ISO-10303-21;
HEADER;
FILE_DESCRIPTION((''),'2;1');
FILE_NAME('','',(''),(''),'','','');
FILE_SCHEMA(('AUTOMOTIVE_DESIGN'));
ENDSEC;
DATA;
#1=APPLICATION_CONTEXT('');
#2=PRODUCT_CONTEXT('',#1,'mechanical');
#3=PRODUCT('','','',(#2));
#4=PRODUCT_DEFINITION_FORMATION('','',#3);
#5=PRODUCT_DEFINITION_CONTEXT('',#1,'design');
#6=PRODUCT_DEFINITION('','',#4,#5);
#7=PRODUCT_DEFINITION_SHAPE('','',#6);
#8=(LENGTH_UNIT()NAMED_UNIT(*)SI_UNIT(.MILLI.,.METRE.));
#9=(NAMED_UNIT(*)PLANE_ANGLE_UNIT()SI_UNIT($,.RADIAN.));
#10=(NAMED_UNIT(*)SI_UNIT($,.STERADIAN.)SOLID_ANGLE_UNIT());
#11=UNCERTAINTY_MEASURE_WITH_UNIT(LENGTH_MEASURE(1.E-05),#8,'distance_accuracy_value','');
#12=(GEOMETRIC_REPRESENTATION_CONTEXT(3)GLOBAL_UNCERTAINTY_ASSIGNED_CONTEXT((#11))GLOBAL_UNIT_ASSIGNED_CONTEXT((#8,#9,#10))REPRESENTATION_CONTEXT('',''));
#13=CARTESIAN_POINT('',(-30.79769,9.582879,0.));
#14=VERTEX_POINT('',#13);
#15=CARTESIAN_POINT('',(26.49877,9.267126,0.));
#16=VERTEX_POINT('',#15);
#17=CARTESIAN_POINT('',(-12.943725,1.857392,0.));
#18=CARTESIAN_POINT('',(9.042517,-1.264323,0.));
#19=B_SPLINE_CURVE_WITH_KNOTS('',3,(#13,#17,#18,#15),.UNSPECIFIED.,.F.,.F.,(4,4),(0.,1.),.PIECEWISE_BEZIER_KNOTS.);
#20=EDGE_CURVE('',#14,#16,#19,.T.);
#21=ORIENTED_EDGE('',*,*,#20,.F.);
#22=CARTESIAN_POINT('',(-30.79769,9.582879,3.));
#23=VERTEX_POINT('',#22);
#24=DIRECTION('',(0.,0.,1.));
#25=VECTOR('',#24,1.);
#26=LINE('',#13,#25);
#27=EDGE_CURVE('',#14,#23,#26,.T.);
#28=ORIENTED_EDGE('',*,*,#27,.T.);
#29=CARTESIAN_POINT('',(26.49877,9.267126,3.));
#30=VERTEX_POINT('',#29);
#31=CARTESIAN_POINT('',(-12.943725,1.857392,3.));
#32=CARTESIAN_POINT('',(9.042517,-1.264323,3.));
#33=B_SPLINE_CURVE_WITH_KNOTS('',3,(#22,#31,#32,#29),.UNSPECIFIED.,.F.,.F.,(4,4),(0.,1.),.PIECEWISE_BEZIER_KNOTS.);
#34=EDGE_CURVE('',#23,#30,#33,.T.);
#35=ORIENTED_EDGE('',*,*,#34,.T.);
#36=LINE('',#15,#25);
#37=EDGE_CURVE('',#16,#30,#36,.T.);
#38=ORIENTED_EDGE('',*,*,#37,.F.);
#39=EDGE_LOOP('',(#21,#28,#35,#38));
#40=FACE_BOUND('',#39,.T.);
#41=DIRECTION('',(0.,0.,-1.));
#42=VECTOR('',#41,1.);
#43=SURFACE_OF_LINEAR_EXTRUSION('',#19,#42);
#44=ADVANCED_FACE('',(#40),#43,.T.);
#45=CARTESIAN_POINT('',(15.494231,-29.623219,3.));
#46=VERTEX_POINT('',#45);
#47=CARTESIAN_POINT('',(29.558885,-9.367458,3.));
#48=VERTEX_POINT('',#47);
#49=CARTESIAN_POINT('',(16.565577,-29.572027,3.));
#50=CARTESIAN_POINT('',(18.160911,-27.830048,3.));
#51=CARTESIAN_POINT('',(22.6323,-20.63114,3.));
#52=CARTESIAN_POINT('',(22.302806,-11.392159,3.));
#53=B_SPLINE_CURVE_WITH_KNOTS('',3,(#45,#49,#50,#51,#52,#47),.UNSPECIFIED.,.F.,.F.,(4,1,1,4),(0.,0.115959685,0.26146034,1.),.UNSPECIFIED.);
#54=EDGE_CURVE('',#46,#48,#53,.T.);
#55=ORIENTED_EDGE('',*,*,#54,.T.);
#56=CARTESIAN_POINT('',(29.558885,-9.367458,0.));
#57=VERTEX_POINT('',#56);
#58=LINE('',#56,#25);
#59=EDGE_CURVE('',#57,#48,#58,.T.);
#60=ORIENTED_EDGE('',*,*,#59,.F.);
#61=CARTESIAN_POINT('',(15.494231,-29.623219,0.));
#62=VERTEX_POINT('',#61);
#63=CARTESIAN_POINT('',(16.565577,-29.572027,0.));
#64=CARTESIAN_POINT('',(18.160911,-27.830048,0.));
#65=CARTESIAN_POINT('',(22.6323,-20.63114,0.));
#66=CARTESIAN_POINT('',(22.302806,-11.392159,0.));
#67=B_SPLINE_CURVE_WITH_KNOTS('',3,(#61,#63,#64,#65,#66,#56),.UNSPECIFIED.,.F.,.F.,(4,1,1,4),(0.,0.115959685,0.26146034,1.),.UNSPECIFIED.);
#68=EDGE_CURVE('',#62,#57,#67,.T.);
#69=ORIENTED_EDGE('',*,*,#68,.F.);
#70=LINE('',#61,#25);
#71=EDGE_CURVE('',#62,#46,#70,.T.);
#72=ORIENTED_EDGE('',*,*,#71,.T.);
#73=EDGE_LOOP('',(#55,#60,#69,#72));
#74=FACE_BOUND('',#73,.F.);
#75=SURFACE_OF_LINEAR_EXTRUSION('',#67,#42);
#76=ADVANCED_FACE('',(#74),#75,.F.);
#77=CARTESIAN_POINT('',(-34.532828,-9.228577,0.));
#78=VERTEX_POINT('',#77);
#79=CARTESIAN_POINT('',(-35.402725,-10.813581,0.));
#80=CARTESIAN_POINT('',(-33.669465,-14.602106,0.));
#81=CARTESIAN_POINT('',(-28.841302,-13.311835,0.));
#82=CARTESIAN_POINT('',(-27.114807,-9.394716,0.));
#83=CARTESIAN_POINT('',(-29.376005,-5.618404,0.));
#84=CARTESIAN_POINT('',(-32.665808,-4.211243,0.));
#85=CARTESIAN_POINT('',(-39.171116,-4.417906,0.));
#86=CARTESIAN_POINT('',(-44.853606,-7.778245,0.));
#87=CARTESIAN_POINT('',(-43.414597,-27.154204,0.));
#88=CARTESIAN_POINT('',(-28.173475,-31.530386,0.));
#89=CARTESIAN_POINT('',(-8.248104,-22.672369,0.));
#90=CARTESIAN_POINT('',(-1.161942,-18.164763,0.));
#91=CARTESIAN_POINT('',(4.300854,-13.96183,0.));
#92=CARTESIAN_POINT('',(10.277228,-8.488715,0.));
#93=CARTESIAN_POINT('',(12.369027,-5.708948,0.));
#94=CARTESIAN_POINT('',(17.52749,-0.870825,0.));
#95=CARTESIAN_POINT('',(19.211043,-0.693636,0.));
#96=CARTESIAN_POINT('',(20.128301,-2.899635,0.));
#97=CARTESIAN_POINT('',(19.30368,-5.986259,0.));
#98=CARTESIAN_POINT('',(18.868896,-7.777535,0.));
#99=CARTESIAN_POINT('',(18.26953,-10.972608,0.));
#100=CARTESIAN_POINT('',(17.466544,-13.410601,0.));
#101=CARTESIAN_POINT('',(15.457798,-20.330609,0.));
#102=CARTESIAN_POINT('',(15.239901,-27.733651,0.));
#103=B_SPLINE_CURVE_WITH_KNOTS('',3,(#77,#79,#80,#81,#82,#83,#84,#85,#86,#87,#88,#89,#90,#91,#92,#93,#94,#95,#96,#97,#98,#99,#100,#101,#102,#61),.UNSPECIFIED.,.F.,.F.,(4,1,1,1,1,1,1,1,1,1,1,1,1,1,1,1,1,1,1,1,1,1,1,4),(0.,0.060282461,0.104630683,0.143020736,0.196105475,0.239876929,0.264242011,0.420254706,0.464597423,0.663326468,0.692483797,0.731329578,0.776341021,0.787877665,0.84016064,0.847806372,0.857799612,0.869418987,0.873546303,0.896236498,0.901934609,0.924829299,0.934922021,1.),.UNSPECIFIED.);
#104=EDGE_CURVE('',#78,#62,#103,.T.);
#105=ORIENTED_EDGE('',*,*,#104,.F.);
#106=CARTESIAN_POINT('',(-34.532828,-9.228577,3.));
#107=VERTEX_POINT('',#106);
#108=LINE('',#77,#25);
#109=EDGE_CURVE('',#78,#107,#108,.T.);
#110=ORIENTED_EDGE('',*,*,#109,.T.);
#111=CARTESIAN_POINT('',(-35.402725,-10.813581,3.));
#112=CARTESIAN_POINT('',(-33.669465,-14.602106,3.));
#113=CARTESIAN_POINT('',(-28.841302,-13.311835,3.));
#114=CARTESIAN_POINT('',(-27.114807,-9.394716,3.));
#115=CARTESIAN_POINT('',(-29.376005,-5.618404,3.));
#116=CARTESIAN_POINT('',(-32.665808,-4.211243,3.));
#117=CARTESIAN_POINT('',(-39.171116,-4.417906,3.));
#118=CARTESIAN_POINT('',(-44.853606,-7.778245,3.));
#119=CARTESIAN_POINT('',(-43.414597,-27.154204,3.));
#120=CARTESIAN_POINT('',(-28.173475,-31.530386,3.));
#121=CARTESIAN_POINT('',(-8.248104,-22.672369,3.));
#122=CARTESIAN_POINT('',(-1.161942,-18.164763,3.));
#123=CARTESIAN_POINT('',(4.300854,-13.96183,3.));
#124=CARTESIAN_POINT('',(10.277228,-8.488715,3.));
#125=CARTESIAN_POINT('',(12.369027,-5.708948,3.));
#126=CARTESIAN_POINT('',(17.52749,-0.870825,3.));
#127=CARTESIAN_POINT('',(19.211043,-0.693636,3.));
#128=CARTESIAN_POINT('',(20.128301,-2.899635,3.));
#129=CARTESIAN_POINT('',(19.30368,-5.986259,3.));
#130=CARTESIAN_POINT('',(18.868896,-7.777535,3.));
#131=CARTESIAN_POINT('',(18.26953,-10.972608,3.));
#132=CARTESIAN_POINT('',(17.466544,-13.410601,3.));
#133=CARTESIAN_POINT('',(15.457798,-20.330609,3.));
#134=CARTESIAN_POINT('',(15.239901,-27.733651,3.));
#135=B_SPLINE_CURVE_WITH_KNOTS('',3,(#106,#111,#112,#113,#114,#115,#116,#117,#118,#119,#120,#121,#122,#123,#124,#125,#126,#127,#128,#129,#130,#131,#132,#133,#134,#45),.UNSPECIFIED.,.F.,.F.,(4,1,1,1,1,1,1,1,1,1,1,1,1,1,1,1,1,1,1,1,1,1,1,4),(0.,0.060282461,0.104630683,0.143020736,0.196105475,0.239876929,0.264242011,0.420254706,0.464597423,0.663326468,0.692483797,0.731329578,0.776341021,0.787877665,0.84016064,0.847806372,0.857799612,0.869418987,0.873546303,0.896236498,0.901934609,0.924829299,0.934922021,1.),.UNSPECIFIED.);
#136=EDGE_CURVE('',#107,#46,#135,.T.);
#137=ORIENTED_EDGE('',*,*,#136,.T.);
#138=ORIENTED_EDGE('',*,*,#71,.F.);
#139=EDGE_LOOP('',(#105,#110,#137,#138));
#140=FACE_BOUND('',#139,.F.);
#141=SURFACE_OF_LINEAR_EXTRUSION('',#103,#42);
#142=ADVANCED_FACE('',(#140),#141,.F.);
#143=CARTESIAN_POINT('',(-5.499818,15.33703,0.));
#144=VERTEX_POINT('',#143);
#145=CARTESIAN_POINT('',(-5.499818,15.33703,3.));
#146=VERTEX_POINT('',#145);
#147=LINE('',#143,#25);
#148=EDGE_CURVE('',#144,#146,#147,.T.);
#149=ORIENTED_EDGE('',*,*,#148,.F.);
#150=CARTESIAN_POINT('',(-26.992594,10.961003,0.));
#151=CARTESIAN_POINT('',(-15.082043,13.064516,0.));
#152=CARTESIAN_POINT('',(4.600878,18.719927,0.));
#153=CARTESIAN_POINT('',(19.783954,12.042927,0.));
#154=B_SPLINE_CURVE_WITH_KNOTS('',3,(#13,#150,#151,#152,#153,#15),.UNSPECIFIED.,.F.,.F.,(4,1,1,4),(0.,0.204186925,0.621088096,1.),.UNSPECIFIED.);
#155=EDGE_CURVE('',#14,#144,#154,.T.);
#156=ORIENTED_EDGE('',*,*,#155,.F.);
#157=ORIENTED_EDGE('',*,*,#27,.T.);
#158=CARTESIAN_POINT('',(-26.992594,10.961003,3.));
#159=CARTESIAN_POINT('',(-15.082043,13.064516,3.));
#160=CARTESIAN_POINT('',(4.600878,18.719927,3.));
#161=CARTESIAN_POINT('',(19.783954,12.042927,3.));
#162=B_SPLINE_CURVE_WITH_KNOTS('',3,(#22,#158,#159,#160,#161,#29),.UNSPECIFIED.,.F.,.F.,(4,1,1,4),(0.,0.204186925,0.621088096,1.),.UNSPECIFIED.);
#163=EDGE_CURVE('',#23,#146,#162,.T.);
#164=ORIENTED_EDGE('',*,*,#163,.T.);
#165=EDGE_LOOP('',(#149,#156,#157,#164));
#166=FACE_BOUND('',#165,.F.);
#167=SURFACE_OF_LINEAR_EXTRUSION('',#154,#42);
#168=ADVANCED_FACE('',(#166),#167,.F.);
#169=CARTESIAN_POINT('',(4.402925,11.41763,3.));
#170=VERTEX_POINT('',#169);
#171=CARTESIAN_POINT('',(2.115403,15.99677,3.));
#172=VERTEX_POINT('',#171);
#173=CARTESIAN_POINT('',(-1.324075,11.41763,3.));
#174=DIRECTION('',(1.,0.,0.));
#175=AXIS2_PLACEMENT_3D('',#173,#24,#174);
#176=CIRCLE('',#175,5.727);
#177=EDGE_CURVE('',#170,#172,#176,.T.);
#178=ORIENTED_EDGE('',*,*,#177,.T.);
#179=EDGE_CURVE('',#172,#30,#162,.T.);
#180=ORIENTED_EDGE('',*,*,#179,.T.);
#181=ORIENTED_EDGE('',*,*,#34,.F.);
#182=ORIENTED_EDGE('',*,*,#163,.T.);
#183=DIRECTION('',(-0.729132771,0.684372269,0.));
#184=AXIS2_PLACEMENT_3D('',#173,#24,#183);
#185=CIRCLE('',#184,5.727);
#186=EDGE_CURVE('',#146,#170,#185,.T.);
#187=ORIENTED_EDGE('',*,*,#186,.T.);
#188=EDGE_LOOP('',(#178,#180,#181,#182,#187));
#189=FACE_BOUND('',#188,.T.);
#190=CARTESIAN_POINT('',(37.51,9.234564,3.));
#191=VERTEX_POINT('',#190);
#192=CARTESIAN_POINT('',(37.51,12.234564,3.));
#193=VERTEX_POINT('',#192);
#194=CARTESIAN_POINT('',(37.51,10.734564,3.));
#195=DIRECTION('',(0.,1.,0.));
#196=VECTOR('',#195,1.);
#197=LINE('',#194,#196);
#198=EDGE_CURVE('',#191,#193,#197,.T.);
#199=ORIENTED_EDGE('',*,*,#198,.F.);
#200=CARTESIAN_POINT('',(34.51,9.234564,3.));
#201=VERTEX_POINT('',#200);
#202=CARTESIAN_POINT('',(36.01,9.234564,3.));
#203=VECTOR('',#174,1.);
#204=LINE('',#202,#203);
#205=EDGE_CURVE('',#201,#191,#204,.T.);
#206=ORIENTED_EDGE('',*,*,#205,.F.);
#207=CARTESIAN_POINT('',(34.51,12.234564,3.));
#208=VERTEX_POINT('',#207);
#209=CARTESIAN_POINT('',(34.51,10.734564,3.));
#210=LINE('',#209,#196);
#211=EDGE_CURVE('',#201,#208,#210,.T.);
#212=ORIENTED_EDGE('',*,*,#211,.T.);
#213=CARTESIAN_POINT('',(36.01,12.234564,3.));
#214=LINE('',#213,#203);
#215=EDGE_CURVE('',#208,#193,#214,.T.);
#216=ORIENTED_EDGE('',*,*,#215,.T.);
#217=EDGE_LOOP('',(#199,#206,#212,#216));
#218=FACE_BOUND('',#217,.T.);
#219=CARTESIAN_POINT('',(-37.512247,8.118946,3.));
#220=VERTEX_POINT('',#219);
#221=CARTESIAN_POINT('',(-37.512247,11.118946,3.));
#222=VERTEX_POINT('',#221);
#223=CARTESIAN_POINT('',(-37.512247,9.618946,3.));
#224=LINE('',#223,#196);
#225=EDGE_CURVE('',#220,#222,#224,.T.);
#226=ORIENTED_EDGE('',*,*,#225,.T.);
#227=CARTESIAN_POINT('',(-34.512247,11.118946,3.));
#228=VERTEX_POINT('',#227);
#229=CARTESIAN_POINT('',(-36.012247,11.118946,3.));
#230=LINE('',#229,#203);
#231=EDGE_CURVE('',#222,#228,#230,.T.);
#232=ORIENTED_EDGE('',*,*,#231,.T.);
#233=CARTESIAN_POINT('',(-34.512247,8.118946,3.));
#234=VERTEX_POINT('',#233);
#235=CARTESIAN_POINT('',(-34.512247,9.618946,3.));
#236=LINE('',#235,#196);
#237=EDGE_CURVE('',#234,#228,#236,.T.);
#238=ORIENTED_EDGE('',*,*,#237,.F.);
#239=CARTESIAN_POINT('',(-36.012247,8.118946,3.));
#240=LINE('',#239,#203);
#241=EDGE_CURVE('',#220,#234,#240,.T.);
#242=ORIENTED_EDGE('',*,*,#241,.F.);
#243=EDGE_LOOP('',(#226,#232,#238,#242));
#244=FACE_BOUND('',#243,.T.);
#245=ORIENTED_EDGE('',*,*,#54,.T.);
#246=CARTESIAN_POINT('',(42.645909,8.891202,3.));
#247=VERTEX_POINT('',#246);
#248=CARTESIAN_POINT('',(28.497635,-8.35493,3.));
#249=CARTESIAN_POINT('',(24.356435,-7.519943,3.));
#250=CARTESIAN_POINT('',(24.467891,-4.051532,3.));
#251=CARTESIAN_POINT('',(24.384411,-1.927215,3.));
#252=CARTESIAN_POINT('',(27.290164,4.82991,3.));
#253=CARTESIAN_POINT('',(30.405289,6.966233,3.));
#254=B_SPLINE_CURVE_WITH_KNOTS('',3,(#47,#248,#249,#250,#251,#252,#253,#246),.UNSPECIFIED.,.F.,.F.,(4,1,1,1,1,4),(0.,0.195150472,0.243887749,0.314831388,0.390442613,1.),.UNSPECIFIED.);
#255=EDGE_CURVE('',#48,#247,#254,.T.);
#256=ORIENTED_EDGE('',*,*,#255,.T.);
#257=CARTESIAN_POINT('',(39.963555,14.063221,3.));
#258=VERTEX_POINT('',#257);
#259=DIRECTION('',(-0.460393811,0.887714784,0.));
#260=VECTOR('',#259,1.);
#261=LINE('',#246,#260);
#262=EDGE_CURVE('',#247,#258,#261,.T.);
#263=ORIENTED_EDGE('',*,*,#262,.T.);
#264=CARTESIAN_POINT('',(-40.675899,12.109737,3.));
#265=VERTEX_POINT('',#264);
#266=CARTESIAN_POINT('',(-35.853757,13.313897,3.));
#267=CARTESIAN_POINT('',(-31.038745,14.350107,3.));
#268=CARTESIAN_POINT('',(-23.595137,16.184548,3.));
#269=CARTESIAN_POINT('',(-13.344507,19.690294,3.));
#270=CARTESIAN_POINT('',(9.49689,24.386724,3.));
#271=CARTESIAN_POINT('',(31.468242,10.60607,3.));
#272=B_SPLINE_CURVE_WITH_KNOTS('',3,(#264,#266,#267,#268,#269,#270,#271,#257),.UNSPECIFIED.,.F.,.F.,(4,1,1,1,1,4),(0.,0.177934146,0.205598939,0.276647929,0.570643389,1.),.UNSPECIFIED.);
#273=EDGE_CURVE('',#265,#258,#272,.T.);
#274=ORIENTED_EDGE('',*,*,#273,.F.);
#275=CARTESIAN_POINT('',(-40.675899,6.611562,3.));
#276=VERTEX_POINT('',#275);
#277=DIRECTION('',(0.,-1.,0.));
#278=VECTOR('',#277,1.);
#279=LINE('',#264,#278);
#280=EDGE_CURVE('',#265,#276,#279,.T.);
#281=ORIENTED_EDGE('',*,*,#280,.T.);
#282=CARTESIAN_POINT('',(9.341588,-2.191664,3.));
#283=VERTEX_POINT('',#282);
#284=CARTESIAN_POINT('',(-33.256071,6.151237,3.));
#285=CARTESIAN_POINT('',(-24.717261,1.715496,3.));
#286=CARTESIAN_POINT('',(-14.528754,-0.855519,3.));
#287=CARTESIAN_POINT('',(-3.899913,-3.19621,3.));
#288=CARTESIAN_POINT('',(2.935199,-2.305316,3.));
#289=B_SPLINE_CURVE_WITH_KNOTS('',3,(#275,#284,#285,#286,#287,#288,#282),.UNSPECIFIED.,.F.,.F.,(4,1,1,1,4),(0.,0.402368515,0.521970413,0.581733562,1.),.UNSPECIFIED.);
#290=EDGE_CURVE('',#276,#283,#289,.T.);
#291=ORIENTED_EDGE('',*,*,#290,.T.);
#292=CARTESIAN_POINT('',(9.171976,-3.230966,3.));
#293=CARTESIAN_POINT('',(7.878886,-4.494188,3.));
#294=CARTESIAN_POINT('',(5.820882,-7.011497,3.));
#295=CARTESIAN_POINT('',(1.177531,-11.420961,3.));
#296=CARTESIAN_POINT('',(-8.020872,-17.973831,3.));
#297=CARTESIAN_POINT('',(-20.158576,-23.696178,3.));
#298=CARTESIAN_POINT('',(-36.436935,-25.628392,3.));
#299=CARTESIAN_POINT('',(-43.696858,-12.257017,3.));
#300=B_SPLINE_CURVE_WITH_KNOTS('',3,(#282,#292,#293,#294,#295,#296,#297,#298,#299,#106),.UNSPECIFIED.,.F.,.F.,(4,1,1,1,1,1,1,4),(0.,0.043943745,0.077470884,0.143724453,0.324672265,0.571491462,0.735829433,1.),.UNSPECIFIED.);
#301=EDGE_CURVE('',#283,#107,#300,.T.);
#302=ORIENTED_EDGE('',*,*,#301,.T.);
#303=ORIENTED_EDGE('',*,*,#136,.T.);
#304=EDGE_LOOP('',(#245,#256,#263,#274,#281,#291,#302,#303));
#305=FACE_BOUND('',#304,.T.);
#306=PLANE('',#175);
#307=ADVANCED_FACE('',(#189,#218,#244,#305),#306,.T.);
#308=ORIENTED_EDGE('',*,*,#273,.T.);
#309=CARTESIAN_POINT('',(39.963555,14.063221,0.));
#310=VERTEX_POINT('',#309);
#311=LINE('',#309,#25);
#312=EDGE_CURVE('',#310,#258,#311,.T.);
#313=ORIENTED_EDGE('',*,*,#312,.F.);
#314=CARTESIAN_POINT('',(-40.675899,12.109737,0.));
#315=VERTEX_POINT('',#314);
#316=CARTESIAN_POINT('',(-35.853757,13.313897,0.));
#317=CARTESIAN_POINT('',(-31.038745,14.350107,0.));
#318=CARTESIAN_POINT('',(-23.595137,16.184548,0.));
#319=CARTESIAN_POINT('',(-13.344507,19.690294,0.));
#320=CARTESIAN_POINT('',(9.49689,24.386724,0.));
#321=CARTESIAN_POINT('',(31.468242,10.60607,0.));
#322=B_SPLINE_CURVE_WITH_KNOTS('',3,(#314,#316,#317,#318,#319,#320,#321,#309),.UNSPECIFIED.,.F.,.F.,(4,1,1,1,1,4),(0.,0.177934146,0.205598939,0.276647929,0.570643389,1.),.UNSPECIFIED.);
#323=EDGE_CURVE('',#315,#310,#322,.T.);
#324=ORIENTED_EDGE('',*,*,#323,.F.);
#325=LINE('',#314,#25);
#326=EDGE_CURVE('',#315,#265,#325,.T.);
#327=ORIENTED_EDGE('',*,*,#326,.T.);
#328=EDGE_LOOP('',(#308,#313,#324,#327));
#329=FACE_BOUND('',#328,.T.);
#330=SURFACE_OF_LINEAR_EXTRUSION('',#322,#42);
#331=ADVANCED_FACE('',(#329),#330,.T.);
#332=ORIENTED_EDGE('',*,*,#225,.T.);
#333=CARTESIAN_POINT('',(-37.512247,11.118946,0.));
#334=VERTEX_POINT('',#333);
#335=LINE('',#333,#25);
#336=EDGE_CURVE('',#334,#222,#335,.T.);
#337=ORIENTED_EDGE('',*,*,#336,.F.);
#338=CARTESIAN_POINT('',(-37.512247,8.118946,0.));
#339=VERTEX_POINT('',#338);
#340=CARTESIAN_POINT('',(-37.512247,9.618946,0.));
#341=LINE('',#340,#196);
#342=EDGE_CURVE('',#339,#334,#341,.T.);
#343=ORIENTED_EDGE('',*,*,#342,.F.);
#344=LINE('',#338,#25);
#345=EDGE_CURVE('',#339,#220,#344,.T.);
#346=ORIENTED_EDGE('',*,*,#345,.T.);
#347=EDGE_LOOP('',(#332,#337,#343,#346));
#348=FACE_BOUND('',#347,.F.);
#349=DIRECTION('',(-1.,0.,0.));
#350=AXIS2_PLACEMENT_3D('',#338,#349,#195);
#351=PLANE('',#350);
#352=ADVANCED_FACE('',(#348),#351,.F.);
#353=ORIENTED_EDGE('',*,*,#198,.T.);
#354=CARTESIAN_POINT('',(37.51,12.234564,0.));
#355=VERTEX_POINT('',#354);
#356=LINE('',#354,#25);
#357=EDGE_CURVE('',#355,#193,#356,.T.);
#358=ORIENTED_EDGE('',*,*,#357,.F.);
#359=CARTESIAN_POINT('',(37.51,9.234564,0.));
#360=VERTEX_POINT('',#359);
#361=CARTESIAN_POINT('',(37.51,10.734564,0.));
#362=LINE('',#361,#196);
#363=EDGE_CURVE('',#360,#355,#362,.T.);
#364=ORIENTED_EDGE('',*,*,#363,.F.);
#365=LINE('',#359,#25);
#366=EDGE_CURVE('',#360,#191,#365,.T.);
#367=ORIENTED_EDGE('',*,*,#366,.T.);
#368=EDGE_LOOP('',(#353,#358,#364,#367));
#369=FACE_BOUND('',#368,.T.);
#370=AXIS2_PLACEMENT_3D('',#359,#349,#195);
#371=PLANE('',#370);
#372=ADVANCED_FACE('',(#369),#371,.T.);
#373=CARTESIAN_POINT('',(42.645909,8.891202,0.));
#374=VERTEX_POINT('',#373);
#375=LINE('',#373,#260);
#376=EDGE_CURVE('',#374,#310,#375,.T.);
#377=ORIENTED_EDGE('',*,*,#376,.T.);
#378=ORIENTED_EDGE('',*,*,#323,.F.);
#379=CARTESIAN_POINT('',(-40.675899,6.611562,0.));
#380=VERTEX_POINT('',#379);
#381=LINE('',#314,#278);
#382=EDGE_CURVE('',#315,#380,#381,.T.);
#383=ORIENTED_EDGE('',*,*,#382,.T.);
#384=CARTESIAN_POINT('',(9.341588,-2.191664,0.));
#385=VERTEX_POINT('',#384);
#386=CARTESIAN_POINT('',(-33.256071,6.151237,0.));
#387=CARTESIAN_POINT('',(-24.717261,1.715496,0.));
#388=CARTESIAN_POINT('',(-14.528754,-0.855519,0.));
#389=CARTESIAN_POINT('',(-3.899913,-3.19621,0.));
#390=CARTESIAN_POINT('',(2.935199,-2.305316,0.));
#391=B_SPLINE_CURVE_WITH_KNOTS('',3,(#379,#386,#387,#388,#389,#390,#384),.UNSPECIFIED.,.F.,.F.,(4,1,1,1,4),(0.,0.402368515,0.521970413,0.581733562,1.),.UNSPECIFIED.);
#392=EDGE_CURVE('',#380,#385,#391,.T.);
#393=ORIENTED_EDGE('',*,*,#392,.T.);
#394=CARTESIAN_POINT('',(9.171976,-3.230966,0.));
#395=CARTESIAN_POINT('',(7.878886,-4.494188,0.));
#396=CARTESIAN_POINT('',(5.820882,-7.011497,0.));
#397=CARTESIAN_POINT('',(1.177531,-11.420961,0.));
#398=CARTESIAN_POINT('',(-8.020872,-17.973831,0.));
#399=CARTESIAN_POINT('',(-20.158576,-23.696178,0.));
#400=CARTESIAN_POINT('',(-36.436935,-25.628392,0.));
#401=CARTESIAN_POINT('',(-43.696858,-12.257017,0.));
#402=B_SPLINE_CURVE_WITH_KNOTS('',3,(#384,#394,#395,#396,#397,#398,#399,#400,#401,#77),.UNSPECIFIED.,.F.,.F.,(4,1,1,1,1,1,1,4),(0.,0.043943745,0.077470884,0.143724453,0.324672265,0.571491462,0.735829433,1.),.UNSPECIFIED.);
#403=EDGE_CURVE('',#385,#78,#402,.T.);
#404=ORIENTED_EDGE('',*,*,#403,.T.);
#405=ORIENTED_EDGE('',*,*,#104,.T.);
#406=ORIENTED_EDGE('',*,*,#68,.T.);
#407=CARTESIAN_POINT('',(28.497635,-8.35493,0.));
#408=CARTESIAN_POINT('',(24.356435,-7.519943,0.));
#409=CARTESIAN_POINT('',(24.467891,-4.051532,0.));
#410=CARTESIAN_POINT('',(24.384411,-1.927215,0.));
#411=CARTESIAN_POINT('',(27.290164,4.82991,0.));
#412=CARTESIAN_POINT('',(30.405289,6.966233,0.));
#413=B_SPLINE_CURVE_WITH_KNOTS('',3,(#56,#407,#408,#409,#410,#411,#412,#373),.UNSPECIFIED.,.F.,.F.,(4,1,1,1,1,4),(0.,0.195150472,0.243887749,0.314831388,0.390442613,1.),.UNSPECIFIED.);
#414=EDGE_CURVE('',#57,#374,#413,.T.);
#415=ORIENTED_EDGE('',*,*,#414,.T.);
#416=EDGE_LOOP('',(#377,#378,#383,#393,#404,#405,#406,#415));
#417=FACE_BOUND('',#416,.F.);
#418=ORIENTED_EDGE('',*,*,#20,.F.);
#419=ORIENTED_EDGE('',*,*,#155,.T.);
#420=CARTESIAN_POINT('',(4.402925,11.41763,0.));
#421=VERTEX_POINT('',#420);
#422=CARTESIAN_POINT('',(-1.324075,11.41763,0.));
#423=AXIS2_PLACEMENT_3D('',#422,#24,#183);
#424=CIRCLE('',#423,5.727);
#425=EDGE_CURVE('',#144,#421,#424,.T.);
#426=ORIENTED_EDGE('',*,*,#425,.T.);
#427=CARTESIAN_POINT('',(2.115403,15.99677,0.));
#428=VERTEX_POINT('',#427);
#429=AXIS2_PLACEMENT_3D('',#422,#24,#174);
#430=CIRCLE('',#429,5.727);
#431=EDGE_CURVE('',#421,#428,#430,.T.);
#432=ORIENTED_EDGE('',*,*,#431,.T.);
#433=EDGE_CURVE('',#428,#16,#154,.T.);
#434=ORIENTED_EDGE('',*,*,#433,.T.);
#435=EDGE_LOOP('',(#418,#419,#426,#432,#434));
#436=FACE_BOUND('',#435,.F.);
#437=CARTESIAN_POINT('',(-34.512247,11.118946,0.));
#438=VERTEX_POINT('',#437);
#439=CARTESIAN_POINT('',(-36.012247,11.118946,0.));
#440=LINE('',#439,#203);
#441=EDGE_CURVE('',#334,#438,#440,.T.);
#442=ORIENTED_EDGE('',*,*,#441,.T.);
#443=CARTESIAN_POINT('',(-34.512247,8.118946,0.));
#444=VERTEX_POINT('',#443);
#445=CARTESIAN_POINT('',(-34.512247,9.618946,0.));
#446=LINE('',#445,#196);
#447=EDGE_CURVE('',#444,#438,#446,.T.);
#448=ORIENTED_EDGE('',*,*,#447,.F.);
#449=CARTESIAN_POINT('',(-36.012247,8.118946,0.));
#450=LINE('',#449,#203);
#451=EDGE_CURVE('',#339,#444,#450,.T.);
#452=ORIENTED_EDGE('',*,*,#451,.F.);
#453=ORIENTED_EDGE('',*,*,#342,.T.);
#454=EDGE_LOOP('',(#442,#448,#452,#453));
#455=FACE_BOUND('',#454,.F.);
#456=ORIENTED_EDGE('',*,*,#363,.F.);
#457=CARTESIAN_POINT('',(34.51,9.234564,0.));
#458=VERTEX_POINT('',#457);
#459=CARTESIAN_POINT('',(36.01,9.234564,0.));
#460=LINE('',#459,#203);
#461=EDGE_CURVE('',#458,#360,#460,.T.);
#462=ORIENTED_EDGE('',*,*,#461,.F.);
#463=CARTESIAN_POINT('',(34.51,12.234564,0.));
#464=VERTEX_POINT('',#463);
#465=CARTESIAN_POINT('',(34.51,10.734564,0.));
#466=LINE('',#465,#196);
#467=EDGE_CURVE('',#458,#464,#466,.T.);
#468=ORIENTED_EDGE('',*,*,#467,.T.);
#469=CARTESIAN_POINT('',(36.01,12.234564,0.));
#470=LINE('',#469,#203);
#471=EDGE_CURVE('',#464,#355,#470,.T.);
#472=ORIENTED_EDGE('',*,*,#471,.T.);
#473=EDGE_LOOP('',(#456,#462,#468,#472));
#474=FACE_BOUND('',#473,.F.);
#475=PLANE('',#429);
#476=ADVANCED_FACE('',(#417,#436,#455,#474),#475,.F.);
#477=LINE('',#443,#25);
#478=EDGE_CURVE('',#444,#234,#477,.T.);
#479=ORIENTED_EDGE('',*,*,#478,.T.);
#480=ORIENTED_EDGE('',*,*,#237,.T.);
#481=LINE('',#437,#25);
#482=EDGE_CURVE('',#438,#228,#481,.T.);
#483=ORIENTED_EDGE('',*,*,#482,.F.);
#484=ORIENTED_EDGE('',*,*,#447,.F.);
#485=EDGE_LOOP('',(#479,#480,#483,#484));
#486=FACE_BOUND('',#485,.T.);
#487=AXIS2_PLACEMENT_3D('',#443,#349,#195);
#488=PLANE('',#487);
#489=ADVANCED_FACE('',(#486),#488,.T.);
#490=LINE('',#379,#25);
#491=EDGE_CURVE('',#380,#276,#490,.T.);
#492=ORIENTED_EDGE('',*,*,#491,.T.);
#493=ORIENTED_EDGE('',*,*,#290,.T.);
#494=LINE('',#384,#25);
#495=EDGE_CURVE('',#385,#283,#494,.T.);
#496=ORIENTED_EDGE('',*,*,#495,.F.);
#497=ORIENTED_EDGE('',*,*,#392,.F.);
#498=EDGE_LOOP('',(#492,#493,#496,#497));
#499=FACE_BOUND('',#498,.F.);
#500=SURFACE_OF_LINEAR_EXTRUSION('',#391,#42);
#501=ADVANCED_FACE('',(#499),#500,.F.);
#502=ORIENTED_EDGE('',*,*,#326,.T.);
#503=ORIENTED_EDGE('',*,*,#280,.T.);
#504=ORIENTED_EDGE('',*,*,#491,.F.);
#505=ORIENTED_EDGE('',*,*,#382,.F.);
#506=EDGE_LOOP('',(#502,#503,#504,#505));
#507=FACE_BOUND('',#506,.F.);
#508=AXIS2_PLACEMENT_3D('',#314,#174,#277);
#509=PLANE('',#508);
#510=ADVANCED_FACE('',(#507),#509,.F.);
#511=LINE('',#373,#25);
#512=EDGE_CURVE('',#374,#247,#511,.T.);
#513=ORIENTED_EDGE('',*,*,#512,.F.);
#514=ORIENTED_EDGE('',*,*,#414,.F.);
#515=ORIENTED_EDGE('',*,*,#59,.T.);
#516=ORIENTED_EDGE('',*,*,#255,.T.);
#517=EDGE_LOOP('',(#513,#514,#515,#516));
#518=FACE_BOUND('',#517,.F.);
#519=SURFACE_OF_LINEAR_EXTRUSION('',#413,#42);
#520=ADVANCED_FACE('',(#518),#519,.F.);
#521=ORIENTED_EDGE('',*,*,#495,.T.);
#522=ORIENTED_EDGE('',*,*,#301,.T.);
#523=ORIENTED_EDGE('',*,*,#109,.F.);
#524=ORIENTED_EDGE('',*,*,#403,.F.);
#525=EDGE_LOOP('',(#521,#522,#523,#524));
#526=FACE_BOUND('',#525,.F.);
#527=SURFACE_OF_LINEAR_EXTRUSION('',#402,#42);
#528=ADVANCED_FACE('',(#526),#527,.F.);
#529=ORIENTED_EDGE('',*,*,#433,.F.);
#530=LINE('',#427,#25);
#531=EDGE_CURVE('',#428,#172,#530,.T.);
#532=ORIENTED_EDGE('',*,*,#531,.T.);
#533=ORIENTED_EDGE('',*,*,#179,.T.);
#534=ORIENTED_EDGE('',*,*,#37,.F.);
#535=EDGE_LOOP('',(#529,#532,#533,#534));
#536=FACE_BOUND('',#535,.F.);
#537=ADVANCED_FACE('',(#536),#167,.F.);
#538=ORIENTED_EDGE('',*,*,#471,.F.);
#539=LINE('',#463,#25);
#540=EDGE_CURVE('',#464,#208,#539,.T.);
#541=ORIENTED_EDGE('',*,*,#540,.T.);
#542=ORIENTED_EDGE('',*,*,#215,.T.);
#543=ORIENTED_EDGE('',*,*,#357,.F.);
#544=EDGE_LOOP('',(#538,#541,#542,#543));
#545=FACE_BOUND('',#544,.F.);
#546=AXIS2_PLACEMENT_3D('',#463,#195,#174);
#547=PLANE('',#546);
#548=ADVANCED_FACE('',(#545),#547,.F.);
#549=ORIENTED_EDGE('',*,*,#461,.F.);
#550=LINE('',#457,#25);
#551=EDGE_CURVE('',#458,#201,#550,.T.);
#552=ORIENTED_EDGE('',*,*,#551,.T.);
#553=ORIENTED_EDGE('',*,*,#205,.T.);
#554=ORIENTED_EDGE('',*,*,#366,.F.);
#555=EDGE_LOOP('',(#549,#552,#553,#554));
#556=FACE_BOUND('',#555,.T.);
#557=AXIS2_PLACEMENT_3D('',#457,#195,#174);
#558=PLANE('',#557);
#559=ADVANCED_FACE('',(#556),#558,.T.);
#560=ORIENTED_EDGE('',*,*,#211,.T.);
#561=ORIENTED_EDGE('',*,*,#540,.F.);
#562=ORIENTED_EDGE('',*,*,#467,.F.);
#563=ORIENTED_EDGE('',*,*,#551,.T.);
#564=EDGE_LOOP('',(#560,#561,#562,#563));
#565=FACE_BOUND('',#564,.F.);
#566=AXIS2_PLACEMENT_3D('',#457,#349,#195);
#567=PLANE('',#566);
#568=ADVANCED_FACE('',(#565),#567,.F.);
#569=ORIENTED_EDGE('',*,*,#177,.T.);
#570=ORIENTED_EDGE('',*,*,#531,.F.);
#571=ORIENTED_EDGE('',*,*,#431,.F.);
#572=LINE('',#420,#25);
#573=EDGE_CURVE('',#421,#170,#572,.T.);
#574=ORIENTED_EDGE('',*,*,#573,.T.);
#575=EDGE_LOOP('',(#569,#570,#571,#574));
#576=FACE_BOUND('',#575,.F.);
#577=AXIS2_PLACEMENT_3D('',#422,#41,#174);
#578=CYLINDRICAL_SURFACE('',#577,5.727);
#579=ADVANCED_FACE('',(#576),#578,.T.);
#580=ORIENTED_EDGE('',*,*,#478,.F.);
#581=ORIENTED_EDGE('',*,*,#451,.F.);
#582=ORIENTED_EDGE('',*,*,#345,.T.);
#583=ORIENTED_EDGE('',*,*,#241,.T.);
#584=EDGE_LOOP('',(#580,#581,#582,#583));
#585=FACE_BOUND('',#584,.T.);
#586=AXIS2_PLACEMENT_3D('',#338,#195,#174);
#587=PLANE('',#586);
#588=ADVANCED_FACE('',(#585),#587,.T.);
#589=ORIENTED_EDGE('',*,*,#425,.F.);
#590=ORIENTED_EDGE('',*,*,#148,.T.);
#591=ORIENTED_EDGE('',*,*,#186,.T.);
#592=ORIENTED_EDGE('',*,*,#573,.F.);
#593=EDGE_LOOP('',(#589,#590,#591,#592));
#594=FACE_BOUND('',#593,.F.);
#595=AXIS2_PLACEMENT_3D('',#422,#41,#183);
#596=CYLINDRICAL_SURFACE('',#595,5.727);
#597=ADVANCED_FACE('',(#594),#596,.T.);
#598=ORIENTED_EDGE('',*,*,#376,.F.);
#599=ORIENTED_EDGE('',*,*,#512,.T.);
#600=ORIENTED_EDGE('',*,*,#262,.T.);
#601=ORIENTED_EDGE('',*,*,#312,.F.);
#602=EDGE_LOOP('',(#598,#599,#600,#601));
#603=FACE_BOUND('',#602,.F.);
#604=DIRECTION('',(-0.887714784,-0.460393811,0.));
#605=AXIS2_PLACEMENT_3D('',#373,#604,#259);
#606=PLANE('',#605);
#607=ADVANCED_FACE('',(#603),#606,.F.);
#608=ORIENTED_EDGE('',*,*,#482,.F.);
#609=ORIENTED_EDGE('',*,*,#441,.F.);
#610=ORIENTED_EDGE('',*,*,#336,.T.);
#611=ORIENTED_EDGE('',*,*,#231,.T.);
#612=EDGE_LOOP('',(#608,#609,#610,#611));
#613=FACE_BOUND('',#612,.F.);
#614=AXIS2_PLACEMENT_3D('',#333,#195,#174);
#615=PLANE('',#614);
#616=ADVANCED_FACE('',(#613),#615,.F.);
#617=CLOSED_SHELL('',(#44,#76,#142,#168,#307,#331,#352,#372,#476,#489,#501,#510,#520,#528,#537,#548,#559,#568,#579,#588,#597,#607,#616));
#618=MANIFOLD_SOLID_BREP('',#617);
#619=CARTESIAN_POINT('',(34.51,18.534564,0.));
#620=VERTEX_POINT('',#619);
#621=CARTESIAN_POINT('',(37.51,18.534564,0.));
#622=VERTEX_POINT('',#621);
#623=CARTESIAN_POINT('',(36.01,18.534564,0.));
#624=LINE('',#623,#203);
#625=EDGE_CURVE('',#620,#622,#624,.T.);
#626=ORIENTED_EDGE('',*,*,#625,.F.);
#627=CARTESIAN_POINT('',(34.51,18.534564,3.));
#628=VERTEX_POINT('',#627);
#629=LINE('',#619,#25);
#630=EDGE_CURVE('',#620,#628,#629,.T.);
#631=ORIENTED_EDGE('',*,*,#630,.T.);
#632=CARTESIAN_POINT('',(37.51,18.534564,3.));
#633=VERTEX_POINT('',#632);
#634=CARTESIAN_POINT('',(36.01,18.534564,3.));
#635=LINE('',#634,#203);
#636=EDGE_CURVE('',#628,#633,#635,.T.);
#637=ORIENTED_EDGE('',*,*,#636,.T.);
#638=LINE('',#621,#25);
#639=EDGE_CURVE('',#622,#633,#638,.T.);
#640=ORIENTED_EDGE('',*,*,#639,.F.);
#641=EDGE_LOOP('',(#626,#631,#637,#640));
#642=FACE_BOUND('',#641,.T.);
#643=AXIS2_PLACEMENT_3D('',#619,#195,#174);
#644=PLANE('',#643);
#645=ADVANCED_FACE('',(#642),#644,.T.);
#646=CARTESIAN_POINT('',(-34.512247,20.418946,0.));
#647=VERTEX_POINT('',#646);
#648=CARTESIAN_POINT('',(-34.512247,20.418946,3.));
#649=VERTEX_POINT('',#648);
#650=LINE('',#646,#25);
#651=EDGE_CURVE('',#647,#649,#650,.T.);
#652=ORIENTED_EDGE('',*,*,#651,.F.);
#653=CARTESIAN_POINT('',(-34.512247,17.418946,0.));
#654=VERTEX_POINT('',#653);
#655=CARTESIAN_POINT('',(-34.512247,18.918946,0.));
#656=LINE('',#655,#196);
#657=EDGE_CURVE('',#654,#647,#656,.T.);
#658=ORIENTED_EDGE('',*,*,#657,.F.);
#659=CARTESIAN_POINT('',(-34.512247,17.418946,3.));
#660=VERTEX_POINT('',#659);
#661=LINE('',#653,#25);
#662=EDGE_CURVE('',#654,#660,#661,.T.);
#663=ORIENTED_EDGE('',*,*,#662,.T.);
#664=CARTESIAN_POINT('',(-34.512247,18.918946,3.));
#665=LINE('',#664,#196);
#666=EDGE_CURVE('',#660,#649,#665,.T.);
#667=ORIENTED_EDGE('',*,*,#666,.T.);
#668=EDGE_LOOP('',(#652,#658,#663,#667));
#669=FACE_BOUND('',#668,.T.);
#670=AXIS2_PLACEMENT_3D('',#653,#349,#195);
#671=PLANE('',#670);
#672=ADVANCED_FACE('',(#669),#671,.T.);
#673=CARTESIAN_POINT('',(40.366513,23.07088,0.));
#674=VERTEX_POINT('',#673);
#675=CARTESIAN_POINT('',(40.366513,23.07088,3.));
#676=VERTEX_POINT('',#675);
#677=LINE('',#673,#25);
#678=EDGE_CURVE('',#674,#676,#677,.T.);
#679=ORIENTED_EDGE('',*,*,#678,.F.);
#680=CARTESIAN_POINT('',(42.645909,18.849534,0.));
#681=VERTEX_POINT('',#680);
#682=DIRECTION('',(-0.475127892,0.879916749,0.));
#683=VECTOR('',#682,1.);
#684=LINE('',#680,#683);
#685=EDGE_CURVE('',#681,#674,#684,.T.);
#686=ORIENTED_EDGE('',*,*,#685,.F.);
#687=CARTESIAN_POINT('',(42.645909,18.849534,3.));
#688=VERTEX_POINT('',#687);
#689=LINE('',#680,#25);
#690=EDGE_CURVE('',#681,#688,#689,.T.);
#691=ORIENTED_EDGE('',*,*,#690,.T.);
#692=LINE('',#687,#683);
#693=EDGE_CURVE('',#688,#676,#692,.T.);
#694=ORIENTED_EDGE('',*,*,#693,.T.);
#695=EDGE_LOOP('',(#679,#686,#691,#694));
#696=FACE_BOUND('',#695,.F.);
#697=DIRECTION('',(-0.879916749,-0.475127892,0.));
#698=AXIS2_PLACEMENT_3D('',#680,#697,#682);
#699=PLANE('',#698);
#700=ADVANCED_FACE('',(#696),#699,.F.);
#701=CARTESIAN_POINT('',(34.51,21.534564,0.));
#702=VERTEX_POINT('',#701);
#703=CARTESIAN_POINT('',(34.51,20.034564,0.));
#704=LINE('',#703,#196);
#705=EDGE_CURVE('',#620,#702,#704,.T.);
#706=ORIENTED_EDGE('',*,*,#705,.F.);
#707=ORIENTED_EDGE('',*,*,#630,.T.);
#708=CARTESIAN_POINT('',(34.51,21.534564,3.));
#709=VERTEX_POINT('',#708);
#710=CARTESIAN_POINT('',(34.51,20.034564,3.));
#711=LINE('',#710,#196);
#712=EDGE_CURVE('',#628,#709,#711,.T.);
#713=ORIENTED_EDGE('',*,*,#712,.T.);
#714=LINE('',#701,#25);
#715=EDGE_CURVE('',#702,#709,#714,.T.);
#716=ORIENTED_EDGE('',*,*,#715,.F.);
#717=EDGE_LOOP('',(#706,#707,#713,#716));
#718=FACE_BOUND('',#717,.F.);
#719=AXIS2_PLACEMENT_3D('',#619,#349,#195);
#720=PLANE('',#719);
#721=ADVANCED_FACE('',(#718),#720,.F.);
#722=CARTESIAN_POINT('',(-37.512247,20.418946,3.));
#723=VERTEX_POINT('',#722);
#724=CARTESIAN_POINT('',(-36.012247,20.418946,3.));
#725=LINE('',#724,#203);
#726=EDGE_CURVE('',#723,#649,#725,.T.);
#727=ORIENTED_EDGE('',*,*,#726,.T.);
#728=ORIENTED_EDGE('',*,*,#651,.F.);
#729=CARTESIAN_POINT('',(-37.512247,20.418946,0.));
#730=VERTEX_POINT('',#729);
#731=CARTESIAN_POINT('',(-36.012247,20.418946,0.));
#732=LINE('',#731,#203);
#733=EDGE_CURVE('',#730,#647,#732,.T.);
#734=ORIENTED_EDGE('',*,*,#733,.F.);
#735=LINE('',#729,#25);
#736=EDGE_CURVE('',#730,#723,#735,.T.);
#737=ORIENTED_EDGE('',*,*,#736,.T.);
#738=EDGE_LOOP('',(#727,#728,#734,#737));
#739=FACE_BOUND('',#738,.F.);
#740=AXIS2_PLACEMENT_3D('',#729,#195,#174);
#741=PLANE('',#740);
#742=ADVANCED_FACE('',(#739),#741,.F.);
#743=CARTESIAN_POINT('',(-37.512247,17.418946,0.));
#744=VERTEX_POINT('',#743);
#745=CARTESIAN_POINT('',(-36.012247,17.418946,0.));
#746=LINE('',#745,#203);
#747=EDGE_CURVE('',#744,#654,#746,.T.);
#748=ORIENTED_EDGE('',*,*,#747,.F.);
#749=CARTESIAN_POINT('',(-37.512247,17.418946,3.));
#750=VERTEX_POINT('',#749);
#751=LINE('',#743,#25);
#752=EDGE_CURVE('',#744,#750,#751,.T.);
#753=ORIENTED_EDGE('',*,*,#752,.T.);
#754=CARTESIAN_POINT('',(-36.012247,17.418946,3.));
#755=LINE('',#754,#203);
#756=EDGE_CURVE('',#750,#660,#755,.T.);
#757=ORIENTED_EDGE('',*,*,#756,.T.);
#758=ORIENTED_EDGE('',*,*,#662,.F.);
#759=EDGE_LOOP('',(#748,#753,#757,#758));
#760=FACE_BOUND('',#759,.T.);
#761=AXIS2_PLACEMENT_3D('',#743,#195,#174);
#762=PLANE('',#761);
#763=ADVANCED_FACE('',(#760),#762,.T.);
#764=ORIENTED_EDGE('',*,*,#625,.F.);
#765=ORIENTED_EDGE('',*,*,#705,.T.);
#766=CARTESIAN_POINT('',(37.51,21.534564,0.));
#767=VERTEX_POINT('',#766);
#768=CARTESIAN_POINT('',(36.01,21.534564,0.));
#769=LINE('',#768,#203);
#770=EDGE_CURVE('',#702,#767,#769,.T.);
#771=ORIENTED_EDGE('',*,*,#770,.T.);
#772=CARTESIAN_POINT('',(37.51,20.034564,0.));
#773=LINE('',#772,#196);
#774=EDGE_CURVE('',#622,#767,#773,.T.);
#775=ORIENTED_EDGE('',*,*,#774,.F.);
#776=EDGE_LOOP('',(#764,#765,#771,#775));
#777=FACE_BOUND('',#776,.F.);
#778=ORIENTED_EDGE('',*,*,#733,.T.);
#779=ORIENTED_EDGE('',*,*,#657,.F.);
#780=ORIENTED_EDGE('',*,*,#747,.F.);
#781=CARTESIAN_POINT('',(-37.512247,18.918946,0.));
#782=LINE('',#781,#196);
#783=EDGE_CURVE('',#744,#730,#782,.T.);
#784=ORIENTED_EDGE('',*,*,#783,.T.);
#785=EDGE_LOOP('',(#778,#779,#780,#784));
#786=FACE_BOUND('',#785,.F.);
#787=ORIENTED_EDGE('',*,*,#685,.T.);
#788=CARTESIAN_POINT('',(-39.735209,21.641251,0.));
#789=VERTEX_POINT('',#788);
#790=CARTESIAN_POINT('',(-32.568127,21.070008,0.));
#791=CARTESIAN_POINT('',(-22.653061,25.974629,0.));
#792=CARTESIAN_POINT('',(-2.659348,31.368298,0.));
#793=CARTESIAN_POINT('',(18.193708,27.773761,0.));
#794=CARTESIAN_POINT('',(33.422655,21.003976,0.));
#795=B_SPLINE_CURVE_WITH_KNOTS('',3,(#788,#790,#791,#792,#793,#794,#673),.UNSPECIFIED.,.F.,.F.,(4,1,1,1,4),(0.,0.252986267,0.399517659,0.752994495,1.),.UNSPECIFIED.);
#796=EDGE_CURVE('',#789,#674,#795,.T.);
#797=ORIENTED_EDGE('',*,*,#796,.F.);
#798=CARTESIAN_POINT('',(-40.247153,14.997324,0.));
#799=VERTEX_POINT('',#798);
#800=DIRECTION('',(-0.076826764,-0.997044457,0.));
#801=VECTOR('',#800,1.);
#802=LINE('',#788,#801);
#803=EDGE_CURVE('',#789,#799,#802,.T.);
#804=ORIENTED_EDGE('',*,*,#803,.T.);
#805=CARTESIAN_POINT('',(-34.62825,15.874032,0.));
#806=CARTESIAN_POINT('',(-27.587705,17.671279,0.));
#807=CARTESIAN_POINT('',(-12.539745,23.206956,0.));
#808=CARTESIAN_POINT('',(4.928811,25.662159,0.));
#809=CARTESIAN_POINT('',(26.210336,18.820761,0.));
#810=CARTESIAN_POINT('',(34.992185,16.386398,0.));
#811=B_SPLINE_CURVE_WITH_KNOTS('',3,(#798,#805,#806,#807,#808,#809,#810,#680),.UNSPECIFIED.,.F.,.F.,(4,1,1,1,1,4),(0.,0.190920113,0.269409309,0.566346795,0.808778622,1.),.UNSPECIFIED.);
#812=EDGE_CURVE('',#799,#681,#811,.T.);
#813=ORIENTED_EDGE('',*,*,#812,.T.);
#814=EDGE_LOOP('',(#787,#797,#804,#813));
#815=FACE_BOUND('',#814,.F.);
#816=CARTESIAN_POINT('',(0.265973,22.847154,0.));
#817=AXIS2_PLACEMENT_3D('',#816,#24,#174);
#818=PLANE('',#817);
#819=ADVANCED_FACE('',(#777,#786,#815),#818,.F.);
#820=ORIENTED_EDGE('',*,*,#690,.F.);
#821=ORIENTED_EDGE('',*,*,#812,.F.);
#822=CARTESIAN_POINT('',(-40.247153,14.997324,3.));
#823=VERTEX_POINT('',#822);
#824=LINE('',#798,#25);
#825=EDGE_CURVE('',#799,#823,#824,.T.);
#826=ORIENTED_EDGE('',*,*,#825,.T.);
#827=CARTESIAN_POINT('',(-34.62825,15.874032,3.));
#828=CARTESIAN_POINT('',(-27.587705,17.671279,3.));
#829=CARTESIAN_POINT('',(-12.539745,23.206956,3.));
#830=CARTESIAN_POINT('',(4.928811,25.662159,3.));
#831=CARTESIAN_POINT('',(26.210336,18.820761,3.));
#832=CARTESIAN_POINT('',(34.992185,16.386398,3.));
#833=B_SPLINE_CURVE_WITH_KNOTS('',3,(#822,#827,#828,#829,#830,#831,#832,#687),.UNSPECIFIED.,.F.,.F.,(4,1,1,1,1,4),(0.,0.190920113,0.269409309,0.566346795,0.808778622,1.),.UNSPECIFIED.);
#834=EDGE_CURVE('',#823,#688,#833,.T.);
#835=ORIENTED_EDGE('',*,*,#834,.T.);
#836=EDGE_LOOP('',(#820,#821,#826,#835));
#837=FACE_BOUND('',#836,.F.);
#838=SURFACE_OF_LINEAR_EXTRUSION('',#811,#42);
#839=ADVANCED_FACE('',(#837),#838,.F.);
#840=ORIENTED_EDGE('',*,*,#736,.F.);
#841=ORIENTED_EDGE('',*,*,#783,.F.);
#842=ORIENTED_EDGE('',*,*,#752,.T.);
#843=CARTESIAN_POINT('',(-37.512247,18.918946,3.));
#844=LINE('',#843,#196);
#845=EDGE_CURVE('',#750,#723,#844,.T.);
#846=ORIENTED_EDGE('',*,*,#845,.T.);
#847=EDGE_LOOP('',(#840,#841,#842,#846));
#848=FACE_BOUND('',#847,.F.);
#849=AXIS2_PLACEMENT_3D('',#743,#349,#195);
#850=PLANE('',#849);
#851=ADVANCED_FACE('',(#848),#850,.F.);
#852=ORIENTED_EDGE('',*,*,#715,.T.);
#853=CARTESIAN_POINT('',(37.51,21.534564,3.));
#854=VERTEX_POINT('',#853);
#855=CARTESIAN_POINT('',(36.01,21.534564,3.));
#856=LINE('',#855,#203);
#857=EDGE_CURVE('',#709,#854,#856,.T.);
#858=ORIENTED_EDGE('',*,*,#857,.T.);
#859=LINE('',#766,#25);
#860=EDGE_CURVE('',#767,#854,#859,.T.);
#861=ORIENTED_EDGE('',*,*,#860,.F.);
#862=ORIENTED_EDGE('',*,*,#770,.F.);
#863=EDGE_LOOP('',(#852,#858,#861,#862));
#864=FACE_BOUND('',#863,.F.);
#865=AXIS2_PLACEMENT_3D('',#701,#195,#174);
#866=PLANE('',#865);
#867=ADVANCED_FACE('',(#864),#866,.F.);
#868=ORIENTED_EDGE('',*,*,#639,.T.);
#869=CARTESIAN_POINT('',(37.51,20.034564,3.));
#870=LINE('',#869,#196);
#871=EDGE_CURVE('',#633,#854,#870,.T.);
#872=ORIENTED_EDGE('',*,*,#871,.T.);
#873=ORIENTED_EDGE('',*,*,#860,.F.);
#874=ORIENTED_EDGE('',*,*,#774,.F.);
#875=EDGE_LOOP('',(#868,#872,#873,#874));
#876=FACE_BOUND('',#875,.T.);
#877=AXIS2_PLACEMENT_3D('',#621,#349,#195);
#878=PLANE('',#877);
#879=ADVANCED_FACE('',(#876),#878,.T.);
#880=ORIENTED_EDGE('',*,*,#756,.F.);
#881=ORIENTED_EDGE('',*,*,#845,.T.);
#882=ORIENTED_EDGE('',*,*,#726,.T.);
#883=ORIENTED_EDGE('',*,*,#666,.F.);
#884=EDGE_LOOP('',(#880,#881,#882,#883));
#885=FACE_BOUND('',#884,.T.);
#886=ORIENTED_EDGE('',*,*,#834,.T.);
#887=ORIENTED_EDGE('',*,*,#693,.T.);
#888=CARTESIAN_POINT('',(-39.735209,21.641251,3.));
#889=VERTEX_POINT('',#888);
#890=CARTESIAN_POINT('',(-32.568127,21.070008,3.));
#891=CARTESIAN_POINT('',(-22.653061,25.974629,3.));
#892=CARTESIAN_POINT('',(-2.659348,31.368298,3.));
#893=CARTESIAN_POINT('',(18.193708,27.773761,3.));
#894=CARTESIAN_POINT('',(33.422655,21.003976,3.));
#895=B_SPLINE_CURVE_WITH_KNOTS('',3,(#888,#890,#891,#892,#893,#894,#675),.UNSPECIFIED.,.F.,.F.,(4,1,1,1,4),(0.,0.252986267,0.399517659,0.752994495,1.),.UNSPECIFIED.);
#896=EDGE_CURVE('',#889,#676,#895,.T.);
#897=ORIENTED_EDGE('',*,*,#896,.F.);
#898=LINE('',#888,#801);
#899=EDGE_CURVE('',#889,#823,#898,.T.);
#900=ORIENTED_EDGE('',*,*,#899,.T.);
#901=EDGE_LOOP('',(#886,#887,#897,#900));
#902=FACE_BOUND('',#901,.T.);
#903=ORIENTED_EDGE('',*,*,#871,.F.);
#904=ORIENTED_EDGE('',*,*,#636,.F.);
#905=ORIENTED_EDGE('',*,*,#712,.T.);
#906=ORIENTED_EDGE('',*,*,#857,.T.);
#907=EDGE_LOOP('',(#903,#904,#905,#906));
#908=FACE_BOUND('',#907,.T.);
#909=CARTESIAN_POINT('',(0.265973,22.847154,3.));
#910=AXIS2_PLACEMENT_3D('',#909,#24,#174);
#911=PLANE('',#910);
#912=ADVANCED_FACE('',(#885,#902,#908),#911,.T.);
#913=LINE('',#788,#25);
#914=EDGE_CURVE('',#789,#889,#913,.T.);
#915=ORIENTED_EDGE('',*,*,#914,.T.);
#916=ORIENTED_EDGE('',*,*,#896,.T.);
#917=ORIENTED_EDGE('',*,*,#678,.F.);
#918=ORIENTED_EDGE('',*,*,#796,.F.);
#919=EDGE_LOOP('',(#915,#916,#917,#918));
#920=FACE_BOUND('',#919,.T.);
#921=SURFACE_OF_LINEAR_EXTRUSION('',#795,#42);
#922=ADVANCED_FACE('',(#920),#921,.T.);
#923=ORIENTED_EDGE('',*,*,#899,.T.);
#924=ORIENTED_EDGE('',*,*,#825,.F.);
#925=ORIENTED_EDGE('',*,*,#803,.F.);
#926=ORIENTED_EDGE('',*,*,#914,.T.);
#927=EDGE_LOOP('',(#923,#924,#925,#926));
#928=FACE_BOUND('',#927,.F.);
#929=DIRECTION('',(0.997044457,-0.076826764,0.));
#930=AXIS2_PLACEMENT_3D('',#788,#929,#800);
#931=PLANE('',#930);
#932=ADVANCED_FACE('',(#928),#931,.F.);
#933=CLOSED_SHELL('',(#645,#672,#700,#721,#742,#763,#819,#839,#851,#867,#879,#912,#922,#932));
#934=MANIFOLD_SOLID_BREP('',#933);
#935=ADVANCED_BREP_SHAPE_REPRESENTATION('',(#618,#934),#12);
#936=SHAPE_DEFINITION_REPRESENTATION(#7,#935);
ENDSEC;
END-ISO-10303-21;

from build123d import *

# Parameters (mm, degrees)
SKETCH1_W           = 3
SKETCH1_H           = 3
SKETCH1_R           = 5.727
BOSS_EXTRUDE2_DEPTH = 3


with BuildPart() as part:
    # Sketch1 → Boss-Extrude2 (new body)
    with BuildSketch(Plane.XY):
        with BuildLine():
            Line((-39.735208654, 21.641251441), (-40.247153197, 14.997323734))
            add(Edge.make_bspline(
                [(-40.247153197, 14.997323734), (-34.62825003, 15.87403203), (-27.587704705, 17.671279001), (-12.539744649, 23.206955843), (4.928810631, 25.662158529), (26.210335755, 18.820760711), (34.992185318, 16.386398189), (42.645909195, 18.849534024)],
                knots=[0, 0, 0, 0, 0.190920113, 0.269409309, 0.566346795, 0.808778622, 1, 1, 1, 1], degree=3))
            Line((42.645909195, 18.849534024), (40.36651253, 23.070880184))
            add(Edge.make_bspline(
                [(-39.735208654, 21.641251441), (-32.568126745, 21.070008089), (-22.653060763, 25.974629263), (-2.659347844, 31.368297936), (18.193707525, 27.773761151), (33.422654754, 21.003976474), (40.36651253, 23.070880184)],
                knots=[0, 0, 0, 0, 0.252986267, 0.399517659, 0.752994495, 1, 1, 1, 1], degree=3))
        make_face()
        with Locations((36.01, 20.034563675)):
            Rectangle(SKETCH1_W, SKETCH1_H, mode=Mode.SUBTRACT)
        with Locations((-36.012247136, 18.918945956)):
            Rectangle(SKETCH1_W, SKETCH1_H, mode=Mode.SUBTRACT)
        with Locations((-1.324074505, 11.417629962)):
            Circle(SKETCH1_R)
        with BuildLine():
            add(Edge.make_bspline(
                [(15.4942315, -29.623218856), (16.565576888, -29.572026894), (18.160910676, -27.830048406), (22.632300397, -20.631140048), (22.302805521, -11.392159272), (29.558885472, -9.367458068)],
                knots=[0, 0, 0, 0, 0.115959685, 0.26146034, 1, 1, 1, 1], degree=3))
            add(Edge.make_bspline(
                [(29.558885472, -9.367458068), (28.497634502, -8.354929853), (24.356434711, -7.51994313), (24.467890836, -4.051531783), (24.384410992, -1.927214513), (27.290163975, 4.829909999), (30.405288982, 6.966232651), (42.645909195, 8.891202321)],
                knots=[0, 0, 0, 0, 0.195150472, 0.243887749, 0.314831388, 0.390442613, 1, 1, 1, 1], degree=3))
            Line((42.645909195, 8.891202321), (39.963554874, 14.063221425))
            add(Edge.make_bspline(
                [(-40.675899247, 12.109737121), (-35.853757112, 13.313896746), (-31.038744645, 14.350107137), (-23.595136834, 16.184548075), (-13.344507438, 19.690293695), (9.49689031, 24.386724448), (31.468241937, 10.606069745), (39.963554874, 14.063221425)],
                knots=[0, 0, 0, 0, 0.177934146, 0.205598939, 0.276647929, 0.570643389, 1, 1, 1, 1], degree=3))
            Line((-40.675899247, 12.109737121), (-40.675899247, 6.611562481))
            add(Edge.make_bspline(
                [(-40.675899247, 6.611562481), (-33.256070649, 6.151237254), (-24.717261106, 1.715495653), (-14.52875391, -0.855518956), (-3.899913287, -3.196210069), (2.935198899, -2.305316091), (9.341587755, -2.191664051)],
                knots=[0, 0, 0, 0, 0.402368515, 0.521970413, 0.581733562, 1, 1, 1, 1], degree=3))
            add(Edge.make_bspline(
                [(9.341587755, -2.191664051), (9.171976352, -3.230965578), (7.87888592, -4.494188485), (5.820882185, -7.011496658), (1.177530919, -11.420960971), (-8.020871994, -17.973830822), (-20.158575556, -23.696178354), (-36.4369351, -25.62839184), (-43.69685819, -12.257016702), (-34.532828227, -9.228576512)],
                knots=[0, 0, 0, 0, 0.043943745, 0.077470884, 0.143724453, 0.324672265, 0.571491462, 0.735829433, 1, 1, 1, 1], degree=3))
            add(Edge.make_bspline(
                [(-34.532828227, -9.228576512), (-35.402725489, -10.813581102), (-33.669464915, -14.602106386), (-28.84130211, -13.311835114), (-27.114806594, -9.394716352), (-29.376005067, -5.618404386), (-32.665807986, -4.211243438), (-39.171116267, -4.417906406), (-44.853605672, -7.778244917), (-43.414596744, -27.154204243), (-28.173475187, -31.530386438), (-8.248104235, -22.672369128), (-1.161942153, -18.164763244), (4.300853672, -13.961830357), (10.277228111, -8.488715466), (12.369027107, -5.708948151), (17.527490489, -0.870825375), (19.211042508, -0.693635912), (20.128300882, -2.899635218), (19.303679613, -5.986259498), (18.868895998, -7.777535397), (18.269529569, -10.972607546), (17.466544471, -13.410601213), (15.457798347, -20.330609147), (15.239900751, -27.733650768), (15.4942315, -29.623218856)],
                knots=[0, 0, 0, 0, 0.060282461, 0.104630683, 0.143020736, 0.196105475, 0.239876929, 0.264242011, 0.420254706, 0.464597423, 0.663326468, 0.692483797, 0.731329578, 0.776341021, 0.787877665, 0.84016064, 0.847806372, 0.857799612, 0.869418987, 0.873546303, 0.896236498, 0.901934609, 0.924829299, 0.934922021, 1, 1, 1, 1], degree=3))
        make_face()
        with Locations((-36.012247136, 9.618945956)):
            Rectangle(SKETCH1_W, SKETCH1_H, mode=Mode.SUBTRACT)
        with Locations((36.01, 10.734563675)):
            Rectangle(SKETCH1_W, SKETCH1_H, mode=Mode.SUBTRACT)
        with BuildLine():
            add(Edge.make_bspline(
                [(-30.797689617, 9.582879193), (-12.943725481, 1.857392245), (9.042517133, -1.264323498), (26.498769683, 9.267126142)],
                knots=[0, 0, 0, 0, 1, 1, 1, 1], degree=3))
            add(Edge.make_bspline(
                [(-30.797689617, 9.582879193), (-26.992593928, 10.961003103), (-15.082042671, 13.064516297), (4.600878335, 18.719927449), (19.783953887, 12.042926804), (26.498769683, 9.267126142)],
                knots=[0, 0, 0, 0, 0.204186925, 0.621088096, 1, 1, 1, 1], degree=3))
        make_face(mode=Mode.SUBTRACT)
        with BuildLine():
            ThreePointArc((-5.499817885, 15.337029945), (-3.431685316, 6.092547271), (4.402925495, 11.417629962))
            ThreePointArc((4.402925495, 11.417629962), (3.799226134, 13.976989172), (2.115403385, 15.996769712))
            add(Edge.make_bspline(
                [(-5.499817885, 15.337029945), (-2.957503959, 15.734922901), (-0.416315685, 15.992476399), (2.115403385, 15.996769712)],
                knots=[0.437555532, 0.437555532, 0.437555532, 0.437555532, 0.567810962, 0.567810962, 0.567810962, 0.567810962], degree=3))
        make_face()
        with BuildLine():
            add(Edge.make_bspline(
                [(-5.499817885, 15.337029945), (-2.957503959, 15.734922901), (-0.416315685, 15.992476399), (2.115403385, 15.996769712)],
                knots=[0.437555532, 0.437555532, 0.437555532, 0.437555532, 0.567810962, 0.567810962, 0.567810962, 0.567810962], degree=3))
            ThreePointArc((2.115403385, 15.996769712), (-1.818377911, 17.123258161), (-5.499817885, 15.337029945))
        make_face()
    extrude(amount=BOSS_EXTRUDE2_DEPTH)


solid = part.part
